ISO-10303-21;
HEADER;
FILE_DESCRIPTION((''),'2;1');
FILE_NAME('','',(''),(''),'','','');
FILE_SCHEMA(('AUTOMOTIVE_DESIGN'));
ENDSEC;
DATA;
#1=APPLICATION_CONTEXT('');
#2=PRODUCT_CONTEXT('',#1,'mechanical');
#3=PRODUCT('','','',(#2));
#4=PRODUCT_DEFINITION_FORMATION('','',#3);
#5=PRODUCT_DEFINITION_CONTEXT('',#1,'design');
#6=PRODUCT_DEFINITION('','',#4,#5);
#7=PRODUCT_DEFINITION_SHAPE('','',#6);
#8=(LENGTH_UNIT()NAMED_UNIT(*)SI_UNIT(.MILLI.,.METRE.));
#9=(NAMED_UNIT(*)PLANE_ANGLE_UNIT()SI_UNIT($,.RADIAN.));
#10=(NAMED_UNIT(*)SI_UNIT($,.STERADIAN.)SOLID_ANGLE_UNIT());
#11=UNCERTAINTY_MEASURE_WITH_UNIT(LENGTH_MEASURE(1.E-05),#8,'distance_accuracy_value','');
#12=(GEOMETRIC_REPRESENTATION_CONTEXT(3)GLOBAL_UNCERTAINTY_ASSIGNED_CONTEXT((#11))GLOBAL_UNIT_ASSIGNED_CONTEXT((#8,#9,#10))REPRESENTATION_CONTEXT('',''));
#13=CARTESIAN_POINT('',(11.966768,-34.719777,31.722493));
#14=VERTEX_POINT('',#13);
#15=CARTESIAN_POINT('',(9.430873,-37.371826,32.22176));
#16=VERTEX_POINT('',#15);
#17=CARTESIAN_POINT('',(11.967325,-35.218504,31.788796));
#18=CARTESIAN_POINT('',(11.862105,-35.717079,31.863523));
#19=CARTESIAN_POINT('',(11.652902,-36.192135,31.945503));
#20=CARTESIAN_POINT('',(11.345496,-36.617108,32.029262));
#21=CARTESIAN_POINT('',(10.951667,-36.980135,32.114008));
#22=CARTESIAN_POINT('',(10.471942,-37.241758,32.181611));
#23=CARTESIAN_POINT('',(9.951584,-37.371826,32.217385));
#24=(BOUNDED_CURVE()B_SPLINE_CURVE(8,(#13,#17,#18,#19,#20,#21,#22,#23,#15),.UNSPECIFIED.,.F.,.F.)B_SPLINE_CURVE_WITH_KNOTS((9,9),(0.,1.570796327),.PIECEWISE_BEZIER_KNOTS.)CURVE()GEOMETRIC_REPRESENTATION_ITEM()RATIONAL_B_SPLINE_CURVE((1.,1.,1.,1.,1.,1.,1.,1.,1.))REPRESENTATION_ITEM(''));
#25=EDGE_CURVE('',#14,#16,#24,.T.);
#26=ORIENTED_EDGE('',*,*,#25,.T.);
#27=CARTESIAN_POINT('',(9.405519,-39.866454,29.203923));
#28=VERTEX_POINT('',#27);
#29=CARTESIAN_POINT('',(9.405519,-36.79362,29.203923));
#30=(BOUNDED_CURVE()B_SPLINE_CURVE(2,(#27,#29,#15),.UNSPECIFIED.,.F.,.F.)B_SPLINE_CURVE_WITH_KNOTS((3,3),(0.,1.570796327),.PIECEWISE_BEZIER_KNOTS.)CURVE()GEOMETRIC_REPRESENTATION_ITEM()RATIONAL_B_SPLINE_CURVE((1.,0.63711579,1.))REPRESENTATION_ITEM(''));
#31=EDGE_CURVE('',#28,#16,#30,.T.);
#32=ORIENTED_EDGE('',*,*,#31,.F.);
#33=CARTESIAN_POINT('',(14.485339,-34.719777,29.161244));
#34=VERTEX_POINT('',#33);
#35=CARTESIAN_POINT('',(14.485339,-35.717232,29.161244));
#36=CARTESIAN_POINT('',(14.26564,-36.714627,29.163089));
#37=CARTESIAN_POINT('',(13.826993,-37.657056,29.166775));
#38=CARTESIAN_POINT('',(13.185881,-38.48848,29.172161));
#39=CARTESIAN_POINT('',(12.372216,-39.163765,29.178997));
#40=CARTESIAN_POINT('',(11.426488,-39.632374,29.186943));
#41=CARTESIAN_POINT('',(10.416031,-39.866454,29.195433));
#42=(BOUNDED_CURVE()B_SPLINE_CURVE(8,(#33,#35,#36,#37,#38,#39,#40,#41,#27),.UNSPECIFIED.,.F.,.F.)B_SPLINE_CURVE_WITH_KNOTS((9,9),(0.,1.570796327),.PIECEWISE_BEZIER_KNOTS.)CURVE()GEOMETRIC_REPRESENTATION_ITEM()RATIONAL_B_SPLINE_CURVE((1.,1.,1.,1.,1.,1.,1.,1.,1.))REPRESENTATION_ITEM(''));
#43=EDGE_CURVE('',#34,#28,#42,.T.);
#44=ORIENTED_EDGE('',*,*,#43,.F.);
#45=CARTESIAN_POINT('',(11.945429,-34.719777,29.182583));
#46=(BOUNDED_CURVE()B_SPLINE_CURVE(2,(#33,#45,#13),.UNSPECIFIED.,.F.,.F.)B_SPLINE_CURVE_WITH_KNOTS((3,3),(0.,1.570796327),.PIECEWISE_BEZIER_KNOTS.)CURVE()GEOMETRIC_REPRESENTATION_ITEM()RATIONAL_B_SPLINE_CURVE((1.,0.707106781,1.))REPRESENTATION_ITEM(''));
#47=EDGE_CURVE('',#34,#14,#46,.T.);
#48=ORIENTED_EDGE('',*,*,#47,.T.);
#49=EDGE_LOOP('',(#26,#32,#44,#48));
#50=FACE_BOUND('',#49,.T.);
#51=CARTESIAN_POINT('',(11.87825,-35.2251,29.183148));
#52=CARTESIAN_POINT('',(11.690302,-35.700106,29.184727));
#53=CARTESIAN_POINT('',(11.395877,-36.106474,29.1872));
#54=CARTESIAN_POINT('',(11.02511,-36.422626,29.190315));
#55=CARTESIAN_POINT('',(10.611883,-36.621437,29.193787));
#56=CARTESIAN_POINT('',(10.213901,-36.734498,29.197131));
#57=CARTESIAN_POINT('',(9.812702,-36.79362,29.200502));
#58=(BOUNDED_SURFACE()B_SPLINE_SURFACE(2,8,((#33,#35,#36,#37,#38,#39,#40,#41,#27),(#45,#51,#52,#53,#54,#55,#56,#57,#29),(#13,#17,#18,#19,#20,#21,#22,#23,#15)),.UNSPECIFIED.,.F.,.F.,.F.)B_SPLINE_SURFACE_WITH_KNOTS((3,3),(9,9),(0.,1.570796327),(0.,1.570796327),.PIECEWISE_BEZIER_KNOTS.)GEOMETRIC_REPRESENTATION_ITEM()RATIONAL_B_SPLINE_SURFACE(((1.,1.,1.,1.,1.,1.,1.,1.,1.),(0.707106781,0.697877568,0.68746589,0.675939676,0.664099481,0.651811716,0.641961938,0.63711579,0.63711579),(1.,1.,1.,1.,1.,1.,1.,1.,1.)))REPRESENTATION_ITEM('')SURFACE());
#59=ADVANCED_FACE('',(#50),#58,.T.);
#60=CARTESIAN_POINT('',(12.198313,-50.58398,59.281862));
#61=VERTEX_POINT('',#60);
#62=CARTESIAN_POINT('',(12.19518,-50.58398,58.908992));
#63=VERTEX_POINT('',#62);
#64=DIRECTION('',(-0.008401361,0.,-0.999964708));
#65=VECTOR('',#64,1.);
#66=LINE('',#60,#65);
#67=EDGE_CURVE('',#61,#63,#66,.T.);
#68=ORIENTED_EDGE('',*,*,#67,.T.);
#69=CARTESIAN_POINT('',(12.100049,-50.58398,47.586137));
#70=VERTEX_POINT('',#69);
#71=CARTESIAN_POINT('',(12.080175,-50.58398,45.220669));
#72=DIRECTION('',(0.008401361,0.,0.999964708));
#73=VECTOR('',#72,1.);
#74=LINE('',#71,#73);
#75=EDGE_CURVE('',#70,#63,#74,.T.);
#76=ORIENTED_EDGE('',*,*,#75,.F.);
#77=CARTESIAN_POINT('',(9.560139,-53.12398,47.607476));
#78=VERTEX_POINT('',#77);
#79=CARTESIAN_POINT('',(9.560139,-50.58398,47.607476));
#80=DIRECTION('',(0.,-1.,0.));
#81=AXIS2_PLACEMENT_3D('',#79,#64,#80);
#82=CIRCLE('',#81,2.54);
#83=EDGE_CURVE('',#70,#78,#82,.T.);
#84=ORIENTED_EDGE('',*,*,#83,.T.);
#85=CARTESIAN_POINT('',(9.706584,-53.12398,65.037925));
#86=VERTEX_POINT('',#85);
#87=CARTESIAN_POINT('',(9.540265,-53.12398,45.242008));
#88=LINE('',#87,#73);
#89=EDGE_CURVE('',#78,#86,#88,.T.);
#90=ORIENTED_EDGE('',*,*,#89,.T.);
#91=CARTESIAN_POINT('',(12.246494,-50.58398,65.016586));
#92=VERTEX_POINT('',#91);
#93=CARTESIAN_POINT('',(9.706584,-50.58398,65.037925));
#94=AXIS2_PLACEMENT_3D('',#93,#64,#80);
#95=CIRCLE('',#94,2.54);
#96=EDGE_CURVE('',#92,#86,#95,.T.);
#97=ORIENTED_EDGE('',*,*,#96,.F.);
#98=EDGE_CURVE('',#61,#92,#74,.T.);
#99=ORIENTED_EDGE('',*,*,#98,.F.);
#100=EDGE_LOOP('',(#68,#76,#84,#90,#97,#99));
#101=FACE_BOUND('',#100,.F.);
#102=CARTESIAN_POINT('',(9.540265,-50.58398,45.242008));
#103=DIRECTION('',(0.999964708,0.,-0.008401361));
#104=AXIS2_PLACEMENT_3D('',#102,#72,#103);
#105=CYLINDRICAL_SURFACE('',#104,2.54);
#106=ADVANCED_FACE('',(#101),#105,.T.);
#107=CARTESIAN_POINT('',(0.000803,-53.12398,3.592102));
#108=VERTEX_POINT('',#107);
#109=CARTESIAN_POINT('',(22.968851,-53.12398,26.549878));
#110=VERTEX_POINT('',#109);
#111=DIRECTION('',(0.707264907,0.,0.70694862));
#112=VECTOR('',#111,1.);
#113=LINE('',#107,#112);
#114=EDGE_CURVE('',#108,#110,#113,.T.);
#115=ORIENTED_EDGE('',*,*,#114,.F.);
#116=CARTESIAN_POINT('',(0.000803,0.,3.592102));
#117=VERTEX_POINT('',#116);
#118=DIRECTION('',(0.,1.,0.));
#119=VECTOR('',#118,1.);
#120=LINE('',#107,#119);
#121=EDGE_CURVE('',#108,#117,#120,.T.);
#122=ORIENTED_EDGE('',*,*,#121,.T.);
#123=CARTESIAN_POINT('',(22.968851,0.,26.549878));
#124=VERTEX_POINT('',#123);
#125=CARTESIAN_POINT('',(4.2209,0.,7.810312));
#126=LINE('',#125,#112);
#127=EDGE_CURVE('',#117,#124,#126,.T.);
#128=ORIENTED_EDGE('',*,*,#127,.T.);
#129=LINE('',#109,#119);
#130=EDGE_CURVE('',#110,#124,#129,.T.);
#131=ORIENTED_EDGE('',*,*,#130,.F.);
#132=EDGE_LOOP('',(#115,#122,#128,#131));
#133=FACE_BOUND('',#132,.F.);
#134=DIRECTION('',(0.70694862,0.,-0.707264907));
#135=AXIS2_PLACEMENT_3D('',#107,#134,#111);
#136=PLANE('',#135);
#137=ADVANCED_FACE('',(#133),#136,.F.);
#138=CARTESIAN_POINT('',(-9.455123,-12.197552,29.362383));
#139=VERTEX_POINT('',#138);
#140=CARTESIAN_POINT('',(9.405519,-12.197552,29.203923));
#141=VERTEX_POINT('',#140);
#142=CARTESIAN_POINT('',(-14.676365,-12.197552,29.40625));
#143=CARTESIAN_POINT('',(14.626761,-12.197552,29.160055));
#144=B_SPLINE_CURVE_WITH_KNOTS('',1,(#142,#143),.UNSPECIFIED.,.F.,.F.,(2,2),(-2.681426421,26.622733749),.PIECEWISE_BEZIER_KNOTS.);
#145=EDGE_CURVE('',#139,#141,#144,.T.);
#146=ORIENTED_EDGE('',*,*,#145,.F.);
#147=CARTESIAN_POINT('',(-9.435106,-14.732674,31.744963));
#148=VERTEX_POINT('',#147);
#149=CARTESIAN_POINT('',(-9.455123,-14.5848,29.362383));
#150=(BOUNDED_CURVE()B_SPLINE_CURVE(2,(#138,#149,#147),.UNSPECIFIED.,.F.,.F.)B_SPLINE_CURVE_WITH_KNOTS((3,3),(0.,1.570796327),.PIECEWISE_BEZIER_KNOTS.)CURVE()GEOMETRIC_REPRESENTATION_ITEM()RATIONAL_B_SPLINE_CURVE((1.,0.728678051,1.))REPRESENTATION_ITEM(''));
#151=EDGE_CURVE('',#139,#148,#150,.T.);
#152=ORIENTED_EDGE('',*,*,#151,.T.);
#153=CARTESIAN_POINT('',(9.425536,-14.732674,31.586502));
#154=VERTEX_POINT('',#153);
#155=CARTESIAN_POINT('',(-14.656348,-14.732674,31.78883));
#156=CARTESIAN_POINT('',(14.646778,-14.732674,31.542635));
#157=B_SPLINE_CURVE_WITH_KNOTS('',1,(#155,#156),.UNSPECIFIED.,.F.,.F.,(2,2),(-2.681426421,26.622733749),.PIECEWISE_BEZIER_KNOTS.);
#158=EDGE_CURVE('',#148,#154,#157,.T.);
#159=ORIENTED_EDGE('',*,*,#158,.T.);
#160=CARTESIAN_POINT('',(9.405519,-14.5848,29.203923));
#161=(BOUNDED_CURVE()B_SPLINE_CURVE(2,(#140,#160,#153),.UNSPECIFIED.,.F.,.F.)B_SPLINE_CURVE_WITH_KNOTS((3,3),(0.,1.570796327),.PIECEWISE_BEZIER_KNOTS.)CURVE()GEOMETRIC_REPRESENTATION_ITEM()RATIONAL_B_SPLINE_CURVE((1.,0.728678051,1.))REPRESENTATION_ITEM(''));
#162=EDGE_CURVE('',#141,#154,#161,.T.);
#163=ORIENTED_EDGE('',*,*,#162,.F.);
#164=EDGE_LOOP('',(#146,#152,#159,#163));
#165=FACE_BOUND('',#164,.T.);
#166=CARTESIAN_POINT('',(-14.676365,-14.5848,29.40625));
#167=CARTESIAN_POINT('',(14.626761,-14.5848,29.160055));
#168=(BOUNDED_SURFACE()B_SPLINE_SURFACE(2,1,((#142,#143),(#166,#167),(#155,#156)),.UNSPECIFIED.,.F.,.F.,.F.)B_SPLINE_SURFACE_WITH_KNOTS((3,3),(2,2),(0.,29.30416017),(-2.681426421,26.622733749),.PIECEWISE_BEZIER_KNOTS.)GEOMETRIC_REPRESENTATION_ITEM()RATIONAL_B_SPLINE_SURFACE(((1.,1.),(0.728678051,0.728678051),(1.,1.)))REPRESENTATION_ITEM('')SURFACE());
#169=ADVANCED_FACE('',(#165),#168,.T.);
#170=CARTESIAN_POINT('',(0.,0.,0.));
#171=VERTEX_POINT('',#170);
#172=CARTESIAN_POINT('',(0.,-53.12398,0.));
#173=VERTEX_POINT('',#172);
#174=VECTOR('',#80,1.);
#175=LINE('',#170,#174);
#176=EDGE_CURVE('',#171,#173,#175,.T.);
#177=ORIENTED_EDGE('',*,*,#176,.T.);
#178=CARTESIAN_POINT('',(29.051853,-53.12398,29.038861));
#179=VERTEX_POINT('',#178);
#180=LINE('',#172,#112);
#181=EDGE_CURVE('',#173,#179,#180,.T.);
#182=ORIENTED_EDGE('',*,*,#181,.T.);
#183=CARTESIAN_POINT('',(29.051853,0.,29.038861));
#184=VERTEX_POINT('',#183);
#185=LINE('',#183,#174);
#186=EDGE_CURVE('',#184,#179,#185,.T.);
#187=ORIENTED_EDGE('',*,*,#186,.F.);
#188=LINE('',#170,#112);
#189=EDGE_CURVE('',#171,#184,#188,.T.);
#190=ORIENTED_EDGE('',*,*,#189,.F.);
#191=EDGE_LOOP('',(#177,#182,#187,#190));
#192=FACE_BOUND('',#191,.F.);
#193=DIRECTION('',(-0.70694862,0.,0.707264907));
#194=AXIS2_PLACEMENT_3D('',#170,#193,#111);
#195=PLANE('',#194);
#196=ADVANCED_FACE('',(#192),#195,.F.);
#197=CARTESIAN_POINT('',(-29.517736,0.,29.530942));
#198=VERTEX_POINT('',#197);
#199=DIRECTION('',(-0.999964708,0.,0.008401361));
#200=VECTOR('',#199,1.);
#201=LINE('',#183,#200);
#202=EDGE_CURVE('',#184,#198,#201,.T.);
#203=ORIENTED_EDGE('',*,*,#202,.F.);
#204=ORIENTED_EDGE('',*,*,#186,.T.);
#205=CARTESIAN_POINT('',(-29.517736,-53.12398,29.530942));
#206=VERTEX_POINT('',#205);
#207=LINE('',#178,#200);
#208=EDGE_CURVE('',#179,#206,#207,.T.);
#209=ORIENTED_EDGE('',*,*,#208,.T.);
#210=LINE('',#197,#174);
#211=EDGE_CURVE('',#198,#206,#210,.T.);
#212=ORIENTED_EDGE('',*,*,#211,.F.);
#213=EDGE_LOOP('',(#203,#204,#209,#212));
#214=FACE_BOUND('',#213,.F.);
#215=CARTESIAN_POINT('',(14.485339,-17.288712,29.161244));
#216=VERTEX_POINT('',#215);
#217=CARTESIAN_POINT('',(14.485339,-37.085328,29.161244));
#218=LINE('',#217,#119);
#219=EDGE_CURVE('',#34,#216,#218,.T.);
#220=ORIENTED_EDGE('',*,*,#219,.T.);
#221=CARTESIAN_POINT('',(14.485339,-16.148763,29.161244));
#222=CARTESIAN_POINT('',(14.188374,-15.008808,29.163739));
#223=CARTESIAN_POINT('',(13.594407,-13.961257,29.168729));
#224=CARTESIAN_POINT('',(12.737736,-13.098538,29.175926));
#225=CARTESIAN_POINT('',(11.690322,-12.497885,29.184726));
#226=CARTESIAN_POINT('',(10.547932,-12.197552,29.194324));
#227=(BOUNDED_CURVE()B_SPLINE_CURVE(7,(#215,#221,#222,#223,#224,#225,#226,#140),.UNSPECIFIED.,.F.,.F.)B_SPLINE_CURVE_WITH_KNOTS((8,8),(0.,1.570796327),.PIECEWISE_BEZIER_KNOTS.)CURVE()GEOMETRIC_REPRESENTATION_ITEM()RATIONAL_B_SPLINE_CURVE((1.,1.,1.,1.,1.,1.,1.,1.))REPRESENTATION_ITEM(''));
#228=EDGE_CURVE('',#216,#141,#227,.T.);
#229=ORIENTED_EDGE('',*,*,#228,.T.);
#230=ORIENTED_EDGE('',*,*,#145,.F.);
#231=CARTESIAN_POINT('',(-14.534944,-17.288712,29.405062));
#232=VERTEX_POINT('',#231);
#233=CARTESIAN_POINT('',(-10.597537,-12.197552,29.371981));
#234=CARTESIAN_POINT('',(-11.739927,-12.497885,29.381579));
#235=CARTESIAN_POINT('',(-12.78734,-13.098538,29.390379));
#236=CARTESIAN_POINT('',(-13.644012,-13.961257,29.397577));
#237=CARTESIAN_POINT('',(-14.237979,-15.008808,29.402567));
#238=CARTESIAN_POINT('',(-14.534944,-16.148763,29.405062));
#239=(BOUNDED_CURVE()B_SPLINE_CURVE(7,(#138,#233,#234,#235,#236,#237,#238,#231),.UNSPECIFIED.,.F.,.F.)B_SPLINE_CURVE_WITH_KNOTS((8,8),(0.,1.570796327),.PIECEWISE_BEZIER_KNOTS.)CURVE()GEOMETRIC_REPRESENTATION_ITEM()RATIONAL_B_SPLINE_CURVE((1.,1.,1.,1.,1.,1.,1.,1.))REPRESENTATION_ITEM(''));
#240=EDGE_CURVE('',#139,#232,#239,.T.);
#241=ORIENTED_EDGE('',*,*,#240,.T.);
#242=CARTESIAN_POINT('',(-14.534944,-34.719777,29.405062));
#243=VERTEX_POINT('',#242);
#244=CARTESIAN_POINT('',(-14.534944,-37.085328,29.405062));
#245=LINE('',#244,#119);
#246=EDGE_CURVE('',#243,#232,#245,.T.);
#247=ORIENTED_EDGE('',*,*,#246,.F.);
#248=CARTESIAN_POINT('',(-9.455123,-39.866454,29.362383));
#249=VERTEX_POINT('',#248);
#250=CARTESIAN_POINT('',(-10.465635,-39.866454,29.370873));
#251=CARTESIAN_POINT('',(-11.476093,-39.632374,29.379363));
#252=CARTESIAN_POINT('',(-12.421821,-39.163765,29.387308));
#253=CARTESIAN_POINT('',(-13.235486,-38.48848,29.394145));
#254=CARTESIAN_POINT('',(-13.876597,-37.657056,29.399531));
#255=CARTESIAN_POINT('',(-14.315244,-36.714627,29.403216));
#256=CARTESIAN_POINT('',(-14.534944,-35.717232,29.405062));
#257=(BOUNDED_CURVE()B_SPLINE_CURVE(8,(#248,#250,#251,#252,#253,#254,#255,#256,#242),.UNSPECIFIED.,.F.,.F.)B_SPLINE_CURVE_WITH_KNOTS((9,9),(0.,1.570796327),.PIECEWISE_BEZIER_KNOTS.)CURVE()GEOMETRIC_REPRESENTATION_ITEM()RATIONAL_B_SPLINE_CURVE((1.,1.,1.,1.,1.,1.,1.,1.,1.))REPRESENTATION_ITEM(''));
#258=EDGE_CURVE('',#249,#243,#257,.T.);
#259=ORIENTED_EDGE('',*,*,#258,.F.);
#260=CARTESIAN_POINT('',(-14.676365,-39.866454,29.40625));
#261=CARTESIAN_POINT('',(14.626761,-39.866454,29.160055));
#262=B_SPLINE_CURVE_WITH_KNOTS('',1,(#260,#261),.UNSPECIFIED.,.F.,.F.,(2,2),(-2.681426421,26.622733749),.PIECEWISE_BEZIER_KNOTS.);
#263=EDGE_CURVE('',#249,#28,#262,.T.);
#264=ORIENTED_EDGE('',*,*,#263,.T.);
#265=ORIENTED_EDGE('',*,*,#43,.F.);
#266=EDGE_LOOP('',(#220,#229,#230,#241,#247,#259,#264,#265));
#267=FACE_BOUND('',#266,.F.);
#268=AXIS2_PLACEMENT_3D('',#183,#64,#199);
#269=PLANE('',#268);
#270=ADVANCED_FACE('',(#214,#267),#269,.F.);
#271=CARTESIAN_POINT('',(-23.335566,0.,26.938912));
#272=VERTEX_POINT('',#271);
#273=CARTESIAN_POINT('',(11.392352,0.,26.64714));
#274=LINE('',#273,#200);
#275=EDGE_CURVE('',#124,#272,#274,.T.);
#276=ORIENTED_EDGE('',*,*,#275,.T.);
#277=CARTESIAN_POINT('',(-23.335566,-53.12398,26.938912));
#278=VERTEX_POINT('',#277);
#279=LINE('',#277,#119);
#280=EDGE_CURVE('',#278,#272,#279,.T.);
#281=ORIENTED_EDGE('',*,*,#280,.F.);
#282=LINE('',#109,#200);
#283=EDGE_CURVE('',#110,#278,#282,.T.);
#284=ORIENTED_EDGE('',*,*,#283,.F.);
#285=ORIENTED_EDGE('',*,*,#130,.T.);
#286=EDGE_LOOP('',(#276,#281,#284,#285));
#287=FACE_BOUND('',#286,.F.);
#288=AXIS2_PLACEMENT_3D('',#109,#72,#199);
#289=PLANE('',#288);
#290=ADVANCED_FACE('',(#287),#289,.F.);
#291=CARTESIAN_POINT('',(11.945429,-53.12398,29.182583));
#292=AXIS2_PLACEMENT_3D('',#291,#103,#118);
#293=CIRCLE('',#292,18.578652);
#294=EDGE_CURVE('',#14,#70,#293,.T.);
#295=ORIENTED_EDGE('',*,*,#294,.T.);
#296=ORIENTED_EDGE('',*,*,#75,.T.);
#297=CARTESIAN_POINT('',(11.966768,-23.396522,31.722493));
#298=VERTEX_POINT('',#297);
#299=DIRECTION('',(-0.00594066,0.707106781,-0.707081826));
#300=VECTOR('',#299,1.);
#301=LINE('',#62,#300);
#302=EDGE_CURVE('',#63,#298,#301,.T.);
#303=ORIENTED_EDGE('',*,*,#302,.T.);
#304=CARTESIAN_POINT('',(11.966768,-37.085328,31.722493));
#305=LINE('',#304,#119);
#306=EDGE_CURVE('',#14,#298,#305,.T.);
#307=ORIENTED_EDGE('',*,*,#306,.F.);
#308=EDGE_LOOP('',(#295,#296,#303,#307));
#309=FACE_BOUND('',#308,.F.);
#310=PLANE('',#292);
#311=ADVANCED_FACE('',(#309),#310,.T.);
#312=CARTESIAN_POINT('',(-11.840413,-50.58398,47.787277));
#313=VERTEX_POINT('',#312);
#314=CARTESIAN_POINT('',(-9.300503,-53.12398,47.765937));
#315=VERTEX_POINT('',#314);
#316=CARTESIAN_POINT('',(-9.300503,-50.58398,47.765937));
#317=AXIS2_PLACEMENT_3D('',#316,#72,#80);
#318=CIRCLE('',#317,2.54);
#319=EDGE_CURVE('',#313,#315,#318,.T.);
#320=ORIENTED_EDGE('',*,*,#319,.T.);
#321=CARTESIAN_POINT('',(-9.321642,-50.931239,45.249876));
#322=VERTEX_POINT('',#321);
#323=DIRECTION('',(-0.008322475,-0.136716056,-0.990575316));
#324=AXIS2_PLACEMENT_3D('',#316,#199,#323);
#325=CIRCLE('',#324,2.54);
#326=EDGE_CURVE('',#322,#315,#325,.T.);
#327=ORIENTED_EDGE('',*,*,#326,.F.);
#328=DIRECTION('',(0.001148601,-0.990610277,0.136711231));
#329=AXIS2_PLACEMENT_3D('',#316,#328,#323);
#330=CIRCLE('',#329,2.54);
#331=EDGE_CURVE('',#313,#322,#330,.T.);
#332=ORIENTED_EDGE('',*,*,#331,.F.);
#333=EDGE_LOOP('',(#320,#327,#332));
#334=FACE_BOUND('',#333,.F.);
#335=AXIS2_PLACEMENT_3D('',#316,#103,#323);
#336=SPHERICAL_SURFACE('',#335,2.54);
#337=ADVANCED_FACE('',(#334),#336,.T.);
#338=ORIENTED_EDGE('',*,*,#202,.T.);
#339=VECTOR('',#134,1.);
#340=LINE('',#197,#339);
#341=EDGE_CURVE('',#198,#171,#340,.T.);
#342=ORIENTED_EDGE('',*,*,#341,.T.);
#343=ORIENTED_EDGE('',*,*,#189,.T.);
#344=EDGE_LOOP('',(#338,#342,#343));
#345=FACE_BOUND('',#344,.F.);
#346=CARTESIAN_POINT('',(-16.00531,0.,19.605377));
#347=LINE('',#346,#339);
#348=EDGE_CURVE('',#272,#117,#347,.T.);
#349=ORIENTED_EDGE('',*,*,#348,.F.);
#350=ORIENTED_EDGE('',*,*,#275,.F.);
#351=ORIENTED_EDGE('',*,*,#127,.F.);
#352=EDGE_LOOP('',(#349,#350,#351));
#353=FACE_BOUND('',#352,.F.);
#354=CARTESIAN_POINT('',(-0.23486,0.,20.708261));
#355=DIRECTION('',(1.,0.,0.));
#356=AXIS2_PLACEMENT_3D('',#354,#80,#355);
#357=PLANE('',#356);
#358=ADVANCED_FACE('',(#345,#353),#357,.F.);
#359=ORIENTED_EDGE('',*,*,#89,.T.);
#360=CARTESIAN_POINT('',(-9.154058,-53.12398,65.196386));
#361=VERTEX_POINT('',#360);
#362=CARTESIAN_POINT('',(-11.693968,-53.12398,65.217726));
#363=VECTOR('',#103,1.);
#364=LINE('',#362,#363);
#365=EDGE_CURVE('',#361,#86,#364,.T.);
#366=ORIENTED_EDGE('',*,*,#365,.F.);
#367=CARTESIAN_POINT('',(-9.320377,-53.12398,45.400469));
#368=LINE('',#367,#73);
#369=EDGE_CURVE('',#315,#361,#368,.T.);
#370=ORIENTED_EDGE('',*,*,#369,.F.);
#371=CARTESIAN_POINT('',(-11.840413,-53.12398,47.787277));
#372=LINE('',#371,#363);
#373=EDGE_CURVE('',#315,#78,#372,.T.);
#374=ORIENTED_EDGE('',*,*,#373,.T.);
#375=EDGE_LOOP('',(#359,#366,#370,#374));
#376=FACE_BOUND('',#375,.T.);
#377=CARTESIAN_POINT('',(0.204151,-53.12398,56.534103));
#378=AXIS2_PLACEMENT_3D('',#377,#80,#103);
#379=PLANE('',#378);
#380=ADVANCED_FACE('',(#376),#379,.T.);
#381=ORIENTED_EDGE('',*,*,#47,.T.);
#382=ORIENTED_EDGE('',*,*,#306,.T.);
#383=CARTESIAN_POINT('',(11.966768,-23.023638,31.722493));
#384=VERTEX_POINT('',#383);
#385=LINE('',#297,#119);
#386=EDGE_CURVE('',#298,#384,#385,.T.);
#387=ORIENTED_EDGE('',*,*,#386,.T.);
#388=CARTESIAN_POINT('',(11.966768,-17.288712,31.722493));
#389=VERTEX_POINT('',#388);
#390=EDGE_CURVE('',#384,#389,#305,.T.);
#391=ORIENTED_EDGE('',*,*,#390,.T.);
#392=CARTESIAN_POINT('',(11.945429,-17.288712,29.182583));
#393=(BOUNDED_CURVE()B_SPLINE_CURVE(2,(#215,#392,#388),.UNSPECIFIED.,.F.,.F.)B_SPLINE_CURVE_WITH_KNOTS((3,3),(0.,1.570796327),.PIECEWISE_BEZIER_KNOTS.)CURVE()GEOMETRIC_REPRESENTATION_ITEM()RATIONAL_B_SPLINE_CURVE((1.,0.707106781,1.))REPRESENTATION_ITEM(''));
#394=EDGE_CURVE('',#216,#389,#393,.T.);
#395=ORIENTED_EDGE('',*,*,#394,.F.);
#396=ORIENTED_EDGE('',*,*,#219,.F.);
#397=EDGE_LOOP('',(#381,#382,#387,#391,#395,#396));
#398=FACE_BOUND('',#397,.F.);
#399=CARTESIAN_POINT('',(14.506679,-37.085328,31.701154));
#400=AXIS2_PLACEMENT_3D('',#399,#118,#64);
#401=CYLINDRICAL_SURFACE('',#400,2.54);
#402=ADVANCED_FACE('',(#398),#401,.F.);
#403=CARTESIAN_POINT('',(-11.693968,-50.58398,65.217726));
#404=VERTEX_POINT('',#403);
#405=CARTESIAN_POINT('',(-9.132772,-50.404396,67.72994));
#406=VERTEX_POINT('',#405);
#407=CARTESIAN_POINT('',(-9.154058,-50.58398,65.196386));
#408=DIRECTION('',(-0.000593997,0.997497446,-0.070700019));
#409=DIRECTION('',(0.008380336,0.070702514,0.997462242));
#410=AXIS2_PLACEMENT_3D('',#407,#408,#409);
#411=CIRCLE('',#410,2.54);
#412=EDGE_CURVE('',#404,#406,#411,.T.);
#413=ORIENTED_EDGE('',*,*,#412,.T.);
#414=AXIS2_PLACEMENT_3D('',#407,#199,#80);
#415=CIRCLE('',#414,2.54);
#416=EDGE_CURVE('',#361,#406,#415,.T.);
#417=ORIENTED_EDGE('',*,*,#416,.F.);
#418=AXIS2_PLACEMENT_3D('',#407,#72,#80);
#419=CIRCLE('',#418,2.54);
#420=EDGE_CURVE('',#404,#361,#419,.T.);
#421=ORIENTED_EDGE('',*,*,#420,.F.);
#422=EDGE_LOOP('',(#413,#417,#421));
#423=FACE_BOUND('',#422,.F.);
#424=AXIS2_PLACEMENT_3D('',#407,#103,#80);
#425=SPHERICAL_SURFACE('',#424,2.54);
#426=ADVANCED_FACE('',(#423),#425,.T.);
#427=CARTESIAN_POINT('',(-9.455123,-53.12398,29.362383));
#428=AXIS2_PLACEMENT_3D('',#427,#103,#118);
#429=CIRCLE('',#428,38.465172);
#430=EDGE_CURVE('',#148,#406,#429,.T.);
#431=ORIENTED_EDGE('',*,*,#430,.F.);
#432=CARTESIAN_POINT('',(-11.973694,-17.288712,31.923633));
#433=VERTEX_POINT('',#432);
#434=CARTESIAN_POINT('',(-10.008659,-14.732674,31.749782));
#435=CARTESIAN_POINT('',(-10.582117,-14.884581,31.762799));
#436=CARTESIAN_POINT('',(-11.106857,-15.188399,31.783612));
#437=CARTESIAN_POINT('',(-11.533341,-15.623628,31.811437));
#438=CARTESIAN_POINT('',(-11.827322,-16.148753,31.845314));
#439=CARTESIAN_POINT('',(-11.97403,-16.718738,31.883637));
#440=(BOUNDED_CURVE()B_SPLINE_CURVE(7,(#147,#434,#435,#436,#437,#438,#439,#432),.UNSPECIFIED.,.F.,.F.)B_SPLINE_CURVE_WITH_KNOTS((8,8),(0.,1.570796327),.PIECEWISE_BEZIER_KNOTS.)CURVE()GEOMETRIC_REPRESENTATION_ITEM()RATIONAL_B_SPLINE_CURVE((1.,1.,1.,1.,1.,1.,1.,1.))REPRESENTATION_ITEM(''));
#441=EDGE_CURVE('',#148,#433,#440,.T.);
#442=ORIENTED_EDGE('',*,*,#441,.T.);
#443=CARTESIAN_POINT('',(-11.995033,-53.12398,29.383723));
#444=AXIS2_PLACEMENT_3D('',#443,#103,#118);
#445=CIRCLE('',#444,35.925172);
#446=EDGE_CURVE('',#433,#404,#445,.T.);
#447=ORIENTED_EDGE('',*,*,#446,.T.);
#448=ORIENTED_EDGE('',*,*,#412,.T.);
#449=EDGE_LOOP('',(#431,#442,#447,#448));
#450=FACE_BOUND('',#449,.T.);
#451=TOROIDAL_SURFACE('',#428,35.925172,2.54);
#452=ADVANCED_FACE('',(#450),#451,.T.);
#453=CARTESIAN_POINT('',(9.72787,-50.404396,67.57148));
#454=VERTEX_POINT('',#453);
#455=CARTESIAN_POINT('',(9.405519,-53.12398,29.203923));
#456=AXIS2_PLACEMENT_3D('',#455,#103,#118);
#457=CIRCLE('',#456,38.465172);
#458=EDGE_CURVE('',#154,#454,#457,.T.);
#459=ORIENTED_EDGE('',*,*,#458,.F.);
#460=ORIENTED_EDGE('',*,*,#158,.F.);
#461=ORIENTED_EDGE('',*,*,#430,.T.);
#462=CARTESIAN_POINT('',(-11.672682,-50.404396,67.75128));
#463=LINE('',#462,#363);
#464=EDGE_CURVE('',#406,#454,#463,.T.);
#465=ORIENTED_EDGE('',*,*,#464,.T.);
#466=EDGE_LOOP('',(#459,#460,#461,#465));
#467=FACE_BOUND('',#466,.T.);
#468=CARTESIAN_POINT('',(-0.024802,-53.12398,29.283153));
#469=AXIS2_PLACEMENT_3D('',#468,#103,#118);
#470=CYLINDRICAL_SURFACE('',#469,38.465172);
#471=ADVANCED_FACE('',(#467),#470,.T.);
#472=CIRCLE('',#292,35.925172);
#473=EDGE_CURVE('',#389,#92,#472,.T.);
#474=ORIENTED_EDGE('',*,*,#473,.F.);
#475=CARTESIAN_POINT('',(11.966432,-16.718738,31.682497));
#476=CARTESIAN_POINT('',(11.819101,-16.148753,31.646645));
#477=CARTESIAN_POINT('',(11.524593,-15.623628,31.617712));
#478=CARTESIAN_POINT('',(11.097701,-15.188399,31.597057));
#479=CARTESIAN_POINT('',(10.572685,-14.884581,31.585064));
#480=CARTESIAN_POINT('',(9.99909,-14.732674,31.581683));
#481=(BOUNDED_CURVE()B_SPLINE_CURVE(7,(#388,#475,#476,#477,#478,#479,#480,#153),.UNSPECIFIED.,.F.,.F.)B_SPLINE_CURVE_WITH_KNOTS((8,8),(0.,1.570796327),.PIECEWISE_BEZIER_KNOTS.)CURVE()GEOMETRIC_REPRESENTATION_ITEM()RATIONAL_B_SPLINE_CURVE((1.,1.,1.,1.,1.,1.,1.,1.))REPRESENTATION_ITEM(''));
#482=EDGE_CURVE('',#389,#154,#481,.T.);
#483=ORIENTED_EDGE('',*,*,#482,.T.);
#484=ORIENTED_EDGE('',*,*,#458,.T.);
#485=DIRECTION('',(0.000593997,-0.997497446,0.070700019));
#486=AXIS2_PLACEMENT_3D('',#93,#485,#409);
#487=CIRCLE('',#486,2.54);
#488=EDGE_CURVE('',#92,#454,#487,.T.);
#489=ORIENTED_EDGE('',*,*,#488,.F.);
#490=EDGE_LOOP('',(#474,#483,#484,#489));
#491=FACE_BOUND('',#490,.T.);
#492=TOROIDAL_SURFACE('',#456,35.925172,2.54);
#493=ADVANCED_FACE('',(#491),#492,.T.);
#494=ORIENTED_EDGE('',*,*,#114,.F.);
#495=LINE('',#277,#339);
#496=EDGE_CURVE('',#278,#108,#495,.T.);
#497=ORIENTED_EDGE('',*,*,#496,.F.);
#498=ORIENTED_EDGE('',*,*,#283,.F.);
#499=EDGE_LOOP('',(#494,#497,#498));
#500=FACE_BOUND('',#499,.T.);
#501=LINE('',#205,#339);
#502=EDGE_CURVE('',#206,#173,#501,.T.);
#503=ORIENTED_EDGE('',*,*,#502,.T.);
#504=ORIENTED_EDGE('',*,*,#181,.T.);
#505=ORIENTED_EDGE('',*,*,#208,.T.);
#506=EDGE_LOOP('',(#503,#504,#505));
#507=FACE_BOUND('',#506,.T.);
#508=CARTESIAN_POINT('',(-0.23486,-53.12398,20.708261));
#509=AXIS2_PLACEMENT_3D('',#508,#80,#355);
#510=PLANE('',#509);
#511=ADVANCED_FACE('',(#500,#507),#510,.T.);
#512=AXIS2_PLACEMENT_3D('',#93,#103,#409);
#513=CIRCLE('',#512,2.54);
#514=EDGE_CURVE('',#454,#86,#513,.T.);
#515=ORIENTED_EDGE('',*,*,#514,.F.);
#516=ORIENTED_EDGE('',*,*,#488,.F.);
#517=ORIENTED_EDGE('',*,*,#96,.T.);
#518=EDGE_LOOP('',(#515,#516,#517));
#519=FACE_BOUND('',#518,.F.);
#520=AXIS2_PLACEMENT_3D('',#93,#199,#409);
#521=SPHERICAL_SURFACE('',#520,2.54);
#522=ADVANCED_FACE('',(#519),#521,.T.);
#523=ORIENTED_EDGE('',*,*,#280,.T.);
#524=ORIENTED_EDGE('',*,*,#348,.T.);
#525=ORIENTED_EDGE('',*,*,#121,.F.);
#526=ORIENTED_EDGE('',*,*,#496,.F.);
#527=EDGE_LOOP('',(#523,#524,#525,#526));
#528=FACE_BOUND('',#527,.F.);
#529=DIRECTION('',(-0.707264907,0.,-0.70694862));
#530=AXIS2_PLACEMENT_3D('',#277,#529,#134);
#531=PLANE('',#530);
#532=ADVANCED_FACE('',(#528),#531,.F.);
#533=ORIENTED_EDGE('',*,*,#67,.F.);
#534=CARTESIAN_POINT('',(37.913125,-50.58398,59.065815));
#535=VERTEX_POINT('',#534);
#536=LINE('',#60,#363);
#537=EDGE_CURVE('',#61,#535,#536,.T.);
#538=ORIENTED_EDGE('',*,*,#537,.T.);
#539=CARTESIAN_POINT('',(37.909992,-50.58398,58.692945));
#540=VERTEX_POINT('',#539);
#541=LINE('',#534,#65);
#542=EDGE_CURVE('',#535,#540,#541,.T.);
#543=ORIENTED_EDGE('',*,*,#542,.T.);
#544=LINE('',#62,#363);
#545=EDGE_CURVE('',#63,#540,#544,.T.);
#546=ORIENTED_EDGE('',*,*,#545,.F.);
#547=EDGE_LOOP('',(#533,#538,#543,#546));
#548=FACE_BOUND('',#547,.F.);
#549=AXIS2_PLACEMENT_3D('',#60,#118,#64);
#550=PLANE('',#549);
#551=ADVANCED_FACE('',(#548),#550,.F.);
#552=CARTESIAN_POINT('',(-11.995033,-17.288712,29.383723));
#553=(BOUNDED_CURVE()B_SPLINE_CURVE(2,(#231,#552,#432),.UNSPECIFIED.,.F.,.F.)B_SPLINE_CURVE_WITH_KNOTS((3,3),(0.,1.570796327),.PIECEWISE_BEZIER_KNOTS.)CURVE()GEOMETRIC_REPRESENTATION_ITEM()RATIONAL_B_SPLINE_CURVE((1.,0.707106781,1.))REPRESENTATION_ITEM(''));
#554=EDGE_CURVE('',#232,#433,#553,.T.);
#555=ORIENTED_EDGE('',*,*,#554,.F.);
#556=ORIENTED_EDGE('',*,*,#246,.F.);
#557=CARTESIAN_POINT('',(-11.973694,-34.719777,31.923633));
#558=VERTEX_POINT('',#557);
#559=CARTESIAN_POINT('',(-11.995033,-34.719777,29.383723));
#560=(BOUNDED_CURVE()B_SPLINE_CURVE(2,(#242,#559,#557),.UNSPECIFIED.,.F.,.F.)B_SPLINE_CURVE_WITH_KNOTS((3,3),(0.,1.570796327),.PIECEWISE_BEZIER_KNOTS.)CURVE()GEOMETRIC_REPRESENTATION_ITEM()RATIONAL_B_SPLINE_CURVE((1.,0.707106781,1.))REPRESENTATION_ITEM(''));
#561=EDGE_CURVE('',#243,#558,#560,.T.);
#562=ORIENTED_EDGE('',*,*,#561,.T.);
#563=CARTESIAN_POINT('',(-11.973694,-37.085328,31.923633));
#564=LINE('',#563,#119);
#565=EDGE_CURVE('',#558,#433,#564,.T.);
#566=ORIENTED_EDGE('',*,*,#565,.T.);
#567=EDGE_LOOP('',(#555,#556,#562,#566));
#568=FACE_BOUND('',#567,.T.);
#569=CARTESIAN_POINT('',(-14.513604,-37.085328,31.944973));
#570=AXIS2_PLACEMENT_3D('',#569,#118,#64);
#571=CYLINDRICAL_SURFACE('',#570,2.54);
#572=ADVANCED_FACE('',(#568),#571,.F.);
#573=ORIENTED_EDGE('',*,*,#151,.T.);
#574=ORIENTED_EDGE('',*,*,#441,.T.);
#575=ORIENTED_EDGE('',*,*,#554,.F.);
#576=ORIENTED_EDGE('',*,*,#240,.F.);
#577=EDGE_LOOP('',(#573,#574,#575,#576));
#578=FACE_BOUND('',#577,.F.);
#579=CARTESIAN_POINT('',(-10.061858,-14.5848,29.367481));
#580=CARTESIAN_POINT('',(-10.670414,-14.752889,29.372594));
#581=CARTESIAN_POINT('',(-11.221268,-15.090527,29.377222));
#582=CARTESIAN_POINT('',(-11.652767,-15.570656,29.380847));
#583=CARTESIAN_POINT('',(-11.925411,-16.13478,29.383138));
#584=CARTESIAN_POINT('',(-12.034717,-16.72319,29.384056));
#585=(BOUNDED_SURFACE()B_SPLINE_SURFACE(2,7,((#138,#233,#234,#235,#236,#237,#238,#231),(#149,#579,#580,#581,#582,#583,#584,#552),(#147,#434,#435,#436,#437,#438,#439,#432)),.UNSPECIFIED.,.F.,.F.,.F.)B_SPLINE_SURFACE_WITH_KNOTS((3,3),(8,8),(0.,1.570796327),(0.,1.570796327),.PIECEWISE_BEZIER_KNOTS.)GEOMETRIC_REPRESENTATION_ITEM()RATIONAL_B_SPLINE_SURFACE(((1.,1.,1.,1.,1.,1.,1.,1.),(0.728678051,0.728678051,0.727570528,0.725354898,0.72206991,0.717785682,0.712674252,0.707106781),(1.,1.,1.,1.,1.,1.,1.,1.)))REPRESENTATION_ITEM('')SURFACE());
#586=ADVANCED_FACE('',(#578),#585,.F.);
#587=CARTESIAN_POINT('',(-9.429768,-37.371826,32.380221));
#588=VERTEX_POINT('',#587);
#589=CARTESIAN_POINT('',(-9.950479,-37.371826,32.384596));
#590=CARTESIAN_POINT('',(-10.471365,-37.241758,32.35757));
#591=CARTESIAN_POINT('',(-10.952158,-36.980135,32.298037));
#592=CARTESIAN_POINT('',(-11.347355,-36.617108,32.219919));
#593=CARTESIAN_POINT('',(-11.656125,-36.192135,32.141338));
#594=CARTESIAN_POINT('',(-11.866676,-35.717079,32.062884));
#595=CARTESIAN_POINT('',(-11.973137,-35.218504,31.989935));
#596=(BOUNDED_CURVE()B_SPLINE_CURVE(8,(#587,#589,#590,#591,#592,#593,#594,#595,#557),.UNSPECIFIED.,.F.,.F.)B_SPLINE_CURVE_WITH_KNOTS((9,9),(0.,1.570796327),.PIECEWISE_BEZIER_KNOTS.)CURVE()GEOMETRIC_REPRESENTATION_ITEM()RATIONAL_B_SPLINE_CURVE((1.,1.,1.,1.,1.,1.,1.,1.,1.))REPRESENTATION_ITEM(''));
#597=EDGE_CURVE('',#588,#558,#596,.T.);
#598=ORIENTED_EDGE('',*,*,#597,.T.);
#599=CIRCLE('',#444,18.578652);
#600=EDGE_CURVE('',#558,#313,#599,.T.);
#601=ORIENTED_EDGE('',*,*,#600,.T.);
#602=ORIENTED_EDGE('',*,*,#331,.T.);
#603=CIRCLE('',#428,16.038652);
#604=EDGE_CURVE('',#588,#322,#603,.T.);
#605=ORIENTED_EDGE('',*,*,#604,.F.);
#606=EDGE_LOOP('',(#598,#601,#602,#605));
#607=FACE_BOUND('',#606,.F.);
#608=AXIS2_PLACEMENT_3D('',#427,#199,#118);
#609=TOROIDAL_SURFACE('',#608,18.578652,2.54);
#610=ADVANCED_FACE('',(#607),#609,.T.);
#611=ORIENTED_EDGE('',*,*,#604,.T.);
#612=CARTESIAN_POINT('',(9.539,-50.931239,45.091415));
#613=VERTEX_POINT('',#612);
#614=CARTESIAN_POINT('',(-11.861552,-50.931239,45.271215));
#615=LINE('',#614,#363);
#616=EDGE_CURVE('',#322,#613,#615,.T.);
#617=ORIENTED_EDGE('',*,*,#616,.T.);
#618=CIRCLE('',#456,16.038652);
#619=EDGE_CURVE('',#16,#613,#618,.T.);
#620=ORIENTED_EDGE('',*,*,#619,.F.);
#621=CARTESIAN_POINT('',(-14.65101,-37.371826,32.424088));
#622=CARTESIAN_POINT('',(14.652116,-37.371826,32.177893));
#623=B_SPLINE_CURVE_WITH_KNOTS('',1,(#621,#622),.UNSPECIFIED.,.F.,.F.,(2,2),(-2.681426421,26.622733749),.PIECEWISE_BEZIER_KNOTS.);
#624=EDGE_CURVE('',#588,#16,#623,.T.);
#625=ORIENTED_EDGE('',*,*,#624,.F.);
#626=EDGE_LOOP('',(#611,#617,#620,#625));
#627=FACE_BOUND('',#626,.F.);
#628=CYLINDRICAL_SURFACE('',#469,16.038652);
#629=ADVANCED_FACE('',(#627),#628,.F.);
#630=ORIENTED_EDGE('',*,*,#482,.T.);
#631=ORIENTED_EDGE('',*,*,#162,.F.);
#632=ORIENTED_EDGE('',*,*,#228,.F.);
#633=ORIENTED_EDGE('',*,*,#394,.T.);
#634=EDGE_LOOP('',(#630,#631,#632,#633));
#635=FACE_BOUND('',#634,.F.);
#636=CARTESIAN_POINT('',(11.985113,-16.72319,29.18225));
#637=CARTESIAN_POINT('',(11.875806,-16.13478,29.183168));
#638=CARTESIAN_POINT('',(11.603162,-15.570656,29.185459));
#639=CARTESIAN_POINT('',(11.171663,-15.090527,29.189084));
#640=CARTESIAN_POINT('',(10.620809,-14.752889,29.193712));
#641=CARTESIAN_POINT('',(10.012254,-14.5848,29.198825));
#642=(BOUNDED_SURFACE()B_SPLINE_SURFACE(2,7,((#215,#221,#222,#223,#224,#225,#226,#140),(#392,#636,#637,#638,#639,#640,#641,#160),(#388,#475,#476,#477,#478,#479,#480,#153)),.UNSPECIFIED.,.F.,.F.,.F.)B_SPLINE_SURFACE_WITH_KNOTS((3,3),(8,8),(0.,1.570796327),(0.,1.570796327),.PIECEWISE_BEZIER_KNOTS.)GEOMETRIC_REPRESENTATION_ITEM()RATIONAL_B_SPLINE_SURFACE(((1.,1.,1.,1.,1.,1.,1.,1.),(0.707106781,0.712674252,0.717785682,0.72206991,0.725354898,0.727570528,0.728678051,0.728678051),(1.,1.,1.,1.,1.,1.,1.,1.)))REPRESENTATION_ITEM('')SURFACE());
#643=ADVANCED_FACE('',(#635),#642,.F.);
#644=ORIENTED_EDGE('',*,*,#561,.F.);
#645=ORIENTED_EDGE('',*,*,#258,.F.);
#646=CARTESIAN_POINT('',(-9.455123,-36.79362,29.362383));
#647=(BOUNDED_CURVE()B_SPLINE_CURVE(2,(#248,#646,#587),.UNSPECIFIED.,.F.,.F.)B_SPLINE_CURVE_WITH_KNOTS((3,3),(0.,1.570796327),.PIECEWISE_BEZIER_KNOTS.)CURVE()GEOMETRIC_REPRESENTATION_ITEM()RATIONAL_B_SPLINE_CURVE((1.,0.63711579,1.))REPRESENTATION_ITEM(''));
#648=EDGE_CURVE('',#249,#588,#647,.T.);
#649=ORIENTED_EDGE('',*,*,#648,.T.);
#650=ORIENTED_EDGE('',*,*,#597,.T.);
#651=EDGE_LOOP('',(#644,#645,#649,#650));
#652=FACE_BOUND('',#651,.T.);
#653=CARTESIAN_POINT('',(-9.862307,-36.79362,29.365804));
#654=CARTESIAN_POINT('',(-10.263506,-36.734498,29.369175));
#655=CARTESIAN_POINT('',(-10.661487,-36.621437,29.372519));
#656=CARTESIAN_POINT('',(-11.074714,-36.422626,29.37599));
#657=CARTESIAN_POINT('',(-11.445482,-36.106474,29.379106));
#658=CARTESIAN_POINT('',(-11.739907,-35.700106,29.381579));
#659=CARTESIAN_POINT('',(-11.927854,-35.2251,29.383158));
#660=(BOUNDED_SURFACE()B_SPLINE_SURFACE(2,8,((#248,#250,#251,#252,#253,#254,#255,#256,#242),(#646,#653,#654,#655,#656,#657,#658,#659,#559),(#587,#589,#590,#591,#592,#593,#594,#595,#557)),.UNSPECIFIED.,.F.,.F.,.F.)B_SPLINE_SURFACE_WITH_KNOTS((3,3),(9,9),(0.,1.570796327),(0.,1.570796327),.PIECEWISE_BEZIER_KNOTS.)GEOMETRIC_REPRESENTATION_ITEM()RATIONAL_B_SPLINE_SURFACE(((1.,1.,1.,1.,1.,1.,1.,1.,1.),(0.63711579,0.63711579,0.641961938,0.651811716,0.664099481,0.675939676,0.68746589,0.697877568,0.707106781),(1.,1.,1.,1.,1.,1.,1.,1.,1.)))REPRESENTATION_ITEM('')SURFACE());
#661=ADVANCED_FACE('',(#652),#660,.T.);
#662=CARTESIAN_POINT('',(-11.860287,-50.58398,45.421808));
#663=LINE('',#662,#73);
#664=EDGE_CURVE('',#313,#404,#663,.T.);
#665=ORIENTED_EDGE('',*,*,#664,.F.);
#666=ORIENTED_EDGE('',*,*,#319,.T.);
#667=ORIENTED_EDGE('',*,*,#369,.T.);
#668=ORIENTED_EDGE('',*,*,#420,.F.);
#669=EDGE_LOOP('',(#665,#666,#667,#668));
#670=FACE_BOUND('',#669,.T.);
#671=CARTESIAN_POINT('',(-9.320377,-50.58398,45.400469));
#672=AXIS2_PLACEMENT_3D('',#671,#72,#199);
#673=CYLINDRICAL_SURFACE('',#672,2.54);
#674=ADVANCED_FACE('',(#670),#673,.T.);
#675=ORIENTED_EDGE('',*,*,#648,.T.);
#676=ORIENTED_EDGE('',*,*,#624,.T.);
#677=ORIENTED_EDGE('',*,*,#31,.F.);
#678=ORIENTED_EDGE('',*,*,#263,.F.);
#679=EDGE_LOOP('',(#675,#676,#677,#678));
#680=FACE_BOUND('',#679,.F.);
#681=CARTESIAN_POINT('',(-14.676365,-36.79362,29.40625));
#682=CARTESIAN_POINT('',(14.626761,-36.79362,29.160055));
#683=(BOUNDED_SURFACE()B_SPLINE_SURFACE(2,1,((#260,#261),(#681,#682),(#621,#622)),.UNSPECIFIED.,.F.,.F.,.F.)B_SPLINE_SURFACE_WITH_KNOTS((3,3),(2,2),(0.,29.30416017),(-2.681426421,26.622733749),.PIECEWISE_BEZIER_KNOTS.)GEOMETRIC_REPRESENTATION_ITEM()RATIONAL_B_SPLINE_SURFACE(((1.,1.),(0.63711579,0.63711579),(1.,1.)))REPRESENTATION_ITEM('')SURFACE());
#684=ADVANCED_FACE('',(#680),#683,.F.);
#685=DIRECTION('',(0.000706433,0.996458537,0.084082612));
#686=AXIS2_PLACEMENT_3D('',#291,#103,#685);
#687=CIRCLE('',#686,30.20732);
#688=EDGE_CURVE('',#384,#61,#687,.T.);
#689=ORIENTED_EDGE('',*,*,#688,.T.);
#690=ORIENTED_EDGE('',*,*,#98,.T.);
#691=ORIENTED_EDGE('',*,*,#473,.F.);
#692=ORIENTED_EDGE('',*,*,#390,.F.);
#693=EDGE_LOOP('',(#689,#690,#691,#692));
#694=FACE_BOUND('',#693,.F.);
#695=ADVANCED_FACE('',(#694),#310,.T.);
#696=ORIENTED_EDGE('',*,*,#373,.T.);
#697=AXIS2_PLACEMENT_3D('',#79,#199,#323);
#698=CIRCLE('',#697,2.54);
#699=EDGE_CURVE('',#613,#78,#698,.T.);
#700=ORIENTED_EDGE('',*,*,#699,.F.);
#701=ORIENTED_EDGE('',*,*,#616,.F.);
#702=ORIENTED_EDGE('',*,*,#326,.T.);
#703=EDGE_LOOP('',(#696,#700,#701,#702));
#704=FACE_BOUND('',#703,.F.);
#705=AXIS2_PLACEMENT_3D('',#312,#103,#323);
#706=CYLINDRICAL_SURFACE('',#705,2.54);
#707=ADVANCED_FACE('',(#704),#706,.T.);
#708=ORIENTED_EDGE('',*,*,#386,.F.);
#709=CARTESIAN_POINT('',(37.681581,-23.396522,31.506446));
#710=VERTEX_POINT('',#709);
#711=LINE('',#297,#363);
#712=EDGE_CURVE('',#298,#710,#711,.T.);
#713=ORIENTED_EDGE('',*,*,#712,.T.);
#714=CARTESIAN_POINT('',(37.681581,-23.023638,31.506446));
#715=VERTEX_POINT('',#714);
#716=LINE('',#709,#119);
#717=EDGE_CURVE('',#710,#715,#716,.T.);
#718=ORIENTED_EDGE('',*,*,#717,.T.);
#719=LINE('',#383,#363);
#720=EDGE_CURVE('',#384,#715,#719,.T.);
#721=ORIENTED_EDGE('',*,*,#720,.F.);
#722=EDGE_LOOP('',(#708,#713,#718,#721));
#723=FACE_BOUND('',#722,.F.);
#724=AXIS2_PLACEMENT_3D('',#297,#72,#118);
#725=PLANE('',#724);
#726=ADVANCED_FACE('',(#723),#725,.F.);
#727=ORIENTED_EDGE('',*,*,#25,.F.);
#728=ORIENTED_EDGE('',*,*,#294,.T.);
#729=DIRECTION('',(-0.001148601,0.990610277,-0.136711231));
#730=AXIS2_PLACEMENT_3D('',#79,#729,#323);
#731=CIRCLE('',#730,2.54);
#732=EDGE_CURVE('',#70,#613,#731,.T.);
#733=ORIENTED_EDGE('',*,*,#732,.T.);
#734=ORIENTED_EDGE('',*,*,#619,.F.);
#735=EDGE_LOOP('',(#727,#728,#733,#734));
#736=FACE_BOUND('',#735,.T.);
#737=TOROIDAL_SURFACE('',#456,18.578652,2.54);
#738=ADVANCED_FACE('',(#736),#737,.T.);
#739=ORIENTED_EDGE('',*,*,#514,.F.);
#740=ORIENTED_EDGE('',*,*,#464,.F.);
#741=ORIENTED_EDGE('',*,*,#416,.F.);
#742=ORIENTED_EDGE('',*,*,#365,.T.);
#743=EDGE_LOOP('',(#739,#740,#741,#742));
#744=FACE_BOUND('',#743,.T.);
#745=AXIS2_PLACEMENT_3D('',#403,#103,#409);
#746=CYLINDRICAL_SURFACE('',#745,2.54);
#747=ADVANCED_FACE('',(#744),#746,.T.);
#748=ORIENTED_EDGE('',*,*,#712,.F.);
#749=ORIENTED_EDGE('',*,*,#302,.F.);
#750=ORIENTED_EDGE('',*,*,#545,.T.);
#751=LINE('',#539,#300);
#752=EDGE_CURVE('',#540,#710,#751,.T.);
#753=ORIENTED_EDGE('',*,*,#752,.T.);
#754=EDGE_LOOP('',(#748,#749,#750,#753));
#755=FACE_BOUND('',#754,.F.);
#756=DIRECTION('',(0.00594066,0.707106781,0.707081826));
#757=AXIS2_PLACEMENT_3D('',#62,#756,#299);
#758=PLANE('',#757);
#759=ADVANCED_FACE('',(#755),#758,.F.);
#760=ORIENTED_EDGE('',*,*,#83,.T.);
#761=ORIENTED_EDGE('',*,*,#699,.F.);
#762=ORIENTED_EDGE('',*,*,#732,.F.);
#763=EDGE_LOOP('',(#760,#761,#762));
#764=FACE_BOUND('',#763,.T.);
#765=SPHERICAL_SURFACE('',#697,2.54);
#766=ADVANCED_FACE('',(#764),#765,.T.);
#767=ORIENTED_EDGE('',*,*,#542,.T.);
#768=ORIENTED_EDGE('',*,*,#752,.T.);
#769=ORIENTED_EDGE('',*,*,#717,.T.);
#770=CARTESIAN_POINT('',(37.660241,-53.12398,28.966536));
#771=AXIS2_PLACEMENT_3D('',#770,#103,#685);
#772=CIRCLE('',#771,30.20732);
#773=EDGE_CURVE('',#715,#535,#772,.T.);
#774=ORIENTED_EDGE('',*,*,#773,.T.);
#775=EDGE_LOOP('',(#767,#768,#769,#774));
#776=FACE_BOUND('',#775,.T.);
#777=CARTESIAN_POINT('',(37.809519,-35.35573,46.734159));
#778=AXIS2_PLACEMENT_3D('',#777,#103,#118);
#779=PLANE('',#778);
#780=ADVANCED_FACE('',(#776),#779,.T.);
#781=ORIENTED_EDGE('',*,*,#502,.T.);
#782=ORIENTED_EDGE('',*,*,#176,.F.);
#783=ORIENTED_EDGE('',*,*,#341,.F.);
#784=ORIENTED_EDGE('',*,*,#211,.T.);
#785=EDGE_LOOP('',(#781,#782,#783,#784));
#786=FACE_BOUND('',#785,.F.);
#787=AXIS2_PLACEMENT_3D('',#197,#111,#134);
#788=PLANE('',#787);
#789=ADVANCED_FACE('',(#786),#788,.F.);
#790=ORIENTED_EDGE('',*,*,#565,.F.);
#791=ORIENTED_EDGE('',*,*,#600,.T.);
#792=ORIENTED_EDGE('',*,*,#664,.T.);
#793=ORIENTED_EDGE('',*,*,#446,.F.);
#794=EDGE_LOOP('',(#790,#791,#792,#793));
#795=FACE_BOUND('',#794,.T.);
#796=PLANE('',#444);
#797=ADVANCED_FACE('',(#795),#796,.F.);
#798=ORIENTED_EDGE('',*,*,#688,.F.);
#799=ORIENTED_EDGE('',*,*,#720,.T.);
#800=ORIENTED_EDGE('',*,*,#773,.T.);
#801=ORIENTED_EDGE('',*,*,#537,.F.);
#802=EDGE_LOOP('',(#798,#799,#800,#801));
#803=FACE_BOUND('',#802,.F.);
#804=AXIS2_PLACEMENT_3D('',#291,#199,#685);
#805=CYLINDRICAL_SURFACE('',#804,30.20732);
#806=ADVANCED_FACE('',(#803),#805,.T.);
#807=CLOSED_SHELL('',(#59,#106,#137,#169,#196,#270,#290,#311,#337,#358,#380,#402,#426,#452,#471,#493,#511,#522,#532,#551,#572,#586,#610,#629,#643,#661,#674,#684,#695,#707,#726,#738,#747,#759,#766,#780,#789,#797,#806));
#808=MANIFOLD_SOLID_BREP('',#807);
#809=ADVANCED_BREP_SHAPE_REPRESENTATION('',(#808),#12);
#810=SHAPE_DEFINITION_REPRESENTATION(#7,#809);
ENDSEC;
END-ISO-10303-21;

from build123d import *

# Parameters (mm, degrees)
F1_DEPTH = 53.12398
F2_W     = 23.9413073286
F2_H     = 22.4265204743
F3_ANGLE = 90
F4_R     = 2.54
F6_DEPTH = 53.1249801
F8_DEPTH = 25.71572


with BuildPart() as f1:
    # F0 (on Front) → F1 (new body)
    with BuildSketch(Plane.XZ):
        Polygon((29.051852704, 29.0388607975), (-29.5177362859, 29.53094244), (0, 0), align=None)
    extrude(amount=F1_DEPTH)

    # F2 (on face) → F3 (revolve)
    with BuildSketch(Plane(origin=(0.2460079132, 0, 29.2808776473), x_dir=(0.9999647079, 0, -0.0084013613), z_dir=(0.0084013613, 0, 0.9999647079))):
        with Locations((-0.2708197571, -25.872068014)):
            Rectangle(F2_W, F2_H)
    revolve(axis=Axis((-0.2329417909, -53.12398, 29.2849016188), (0.9999647079, 0, -0.0084013613)), revolution_arc=F3_ANGLE)

    # F4
    f4_edges = [f1.edges().sort_by_distance(p)[0] for p in [
        (12.040709, -41.782941, 40.523222),
        (12.173937, -25.924996, 56.380607),
        (11.945429, -25.872068, 29.182583),
        (12.174382, -53.12398, 56.433533),
        (0.298358, -53.12398, 67.746968),
        (-11.76608, -53.12398, 56.634673),
        (0.109944, -53.12398, 45.321239),
        (-11.766525, -25.924996, 56.581747),
        (-0.024802, -14.658808, 29.283153),
        (-11.899753, -41.782941, 40.724362),
        (-0.024802, -37.085328, 29.283153),
        (-11.995033, -25.872068, 29.383723),
    ]]
    fillet(f4_edges, radius=F4_R)

    # F5 (on face) → F6 (cut, through all)
    with BuildSketch(Plane.XZ.offset(53.12398)):
        Polygon((0.0008033687, 3.5921023586), (22.9688507095, 26.5498784535), (-23.3355659609, 26.9389123157), align=None)
    extrude(amount=-F6_DEPTH, mode=Mode.SUBTRACT)

    # F7 (on face) → F8 (join)
    with BuildSketch(Plane(origin=(11.699420996, 0, -0.0982945313), x_dir=(0, 1, 0), z_dir=(0.9999647079, 0, -0.0084013613))):
        with BuildLine():
            Line((-23.396522254, 31.8219110662), (-23.0236383706, 31.8219110662))
            ThreePointArc((-23.0236383706, 31.8219110662), (-31.7641793665, 50.6417116997), (-50.58398, 59.3822526955))
            Line((-50.58398, 59.3822526955), (-50.58398, 59.0093688122))
            Line((-50.58398, 59.0093688122), (-23.396522254, 31.8219110662))
        make_face()
    extrude(amount=F8_DEPTH)


solid = f1.part
